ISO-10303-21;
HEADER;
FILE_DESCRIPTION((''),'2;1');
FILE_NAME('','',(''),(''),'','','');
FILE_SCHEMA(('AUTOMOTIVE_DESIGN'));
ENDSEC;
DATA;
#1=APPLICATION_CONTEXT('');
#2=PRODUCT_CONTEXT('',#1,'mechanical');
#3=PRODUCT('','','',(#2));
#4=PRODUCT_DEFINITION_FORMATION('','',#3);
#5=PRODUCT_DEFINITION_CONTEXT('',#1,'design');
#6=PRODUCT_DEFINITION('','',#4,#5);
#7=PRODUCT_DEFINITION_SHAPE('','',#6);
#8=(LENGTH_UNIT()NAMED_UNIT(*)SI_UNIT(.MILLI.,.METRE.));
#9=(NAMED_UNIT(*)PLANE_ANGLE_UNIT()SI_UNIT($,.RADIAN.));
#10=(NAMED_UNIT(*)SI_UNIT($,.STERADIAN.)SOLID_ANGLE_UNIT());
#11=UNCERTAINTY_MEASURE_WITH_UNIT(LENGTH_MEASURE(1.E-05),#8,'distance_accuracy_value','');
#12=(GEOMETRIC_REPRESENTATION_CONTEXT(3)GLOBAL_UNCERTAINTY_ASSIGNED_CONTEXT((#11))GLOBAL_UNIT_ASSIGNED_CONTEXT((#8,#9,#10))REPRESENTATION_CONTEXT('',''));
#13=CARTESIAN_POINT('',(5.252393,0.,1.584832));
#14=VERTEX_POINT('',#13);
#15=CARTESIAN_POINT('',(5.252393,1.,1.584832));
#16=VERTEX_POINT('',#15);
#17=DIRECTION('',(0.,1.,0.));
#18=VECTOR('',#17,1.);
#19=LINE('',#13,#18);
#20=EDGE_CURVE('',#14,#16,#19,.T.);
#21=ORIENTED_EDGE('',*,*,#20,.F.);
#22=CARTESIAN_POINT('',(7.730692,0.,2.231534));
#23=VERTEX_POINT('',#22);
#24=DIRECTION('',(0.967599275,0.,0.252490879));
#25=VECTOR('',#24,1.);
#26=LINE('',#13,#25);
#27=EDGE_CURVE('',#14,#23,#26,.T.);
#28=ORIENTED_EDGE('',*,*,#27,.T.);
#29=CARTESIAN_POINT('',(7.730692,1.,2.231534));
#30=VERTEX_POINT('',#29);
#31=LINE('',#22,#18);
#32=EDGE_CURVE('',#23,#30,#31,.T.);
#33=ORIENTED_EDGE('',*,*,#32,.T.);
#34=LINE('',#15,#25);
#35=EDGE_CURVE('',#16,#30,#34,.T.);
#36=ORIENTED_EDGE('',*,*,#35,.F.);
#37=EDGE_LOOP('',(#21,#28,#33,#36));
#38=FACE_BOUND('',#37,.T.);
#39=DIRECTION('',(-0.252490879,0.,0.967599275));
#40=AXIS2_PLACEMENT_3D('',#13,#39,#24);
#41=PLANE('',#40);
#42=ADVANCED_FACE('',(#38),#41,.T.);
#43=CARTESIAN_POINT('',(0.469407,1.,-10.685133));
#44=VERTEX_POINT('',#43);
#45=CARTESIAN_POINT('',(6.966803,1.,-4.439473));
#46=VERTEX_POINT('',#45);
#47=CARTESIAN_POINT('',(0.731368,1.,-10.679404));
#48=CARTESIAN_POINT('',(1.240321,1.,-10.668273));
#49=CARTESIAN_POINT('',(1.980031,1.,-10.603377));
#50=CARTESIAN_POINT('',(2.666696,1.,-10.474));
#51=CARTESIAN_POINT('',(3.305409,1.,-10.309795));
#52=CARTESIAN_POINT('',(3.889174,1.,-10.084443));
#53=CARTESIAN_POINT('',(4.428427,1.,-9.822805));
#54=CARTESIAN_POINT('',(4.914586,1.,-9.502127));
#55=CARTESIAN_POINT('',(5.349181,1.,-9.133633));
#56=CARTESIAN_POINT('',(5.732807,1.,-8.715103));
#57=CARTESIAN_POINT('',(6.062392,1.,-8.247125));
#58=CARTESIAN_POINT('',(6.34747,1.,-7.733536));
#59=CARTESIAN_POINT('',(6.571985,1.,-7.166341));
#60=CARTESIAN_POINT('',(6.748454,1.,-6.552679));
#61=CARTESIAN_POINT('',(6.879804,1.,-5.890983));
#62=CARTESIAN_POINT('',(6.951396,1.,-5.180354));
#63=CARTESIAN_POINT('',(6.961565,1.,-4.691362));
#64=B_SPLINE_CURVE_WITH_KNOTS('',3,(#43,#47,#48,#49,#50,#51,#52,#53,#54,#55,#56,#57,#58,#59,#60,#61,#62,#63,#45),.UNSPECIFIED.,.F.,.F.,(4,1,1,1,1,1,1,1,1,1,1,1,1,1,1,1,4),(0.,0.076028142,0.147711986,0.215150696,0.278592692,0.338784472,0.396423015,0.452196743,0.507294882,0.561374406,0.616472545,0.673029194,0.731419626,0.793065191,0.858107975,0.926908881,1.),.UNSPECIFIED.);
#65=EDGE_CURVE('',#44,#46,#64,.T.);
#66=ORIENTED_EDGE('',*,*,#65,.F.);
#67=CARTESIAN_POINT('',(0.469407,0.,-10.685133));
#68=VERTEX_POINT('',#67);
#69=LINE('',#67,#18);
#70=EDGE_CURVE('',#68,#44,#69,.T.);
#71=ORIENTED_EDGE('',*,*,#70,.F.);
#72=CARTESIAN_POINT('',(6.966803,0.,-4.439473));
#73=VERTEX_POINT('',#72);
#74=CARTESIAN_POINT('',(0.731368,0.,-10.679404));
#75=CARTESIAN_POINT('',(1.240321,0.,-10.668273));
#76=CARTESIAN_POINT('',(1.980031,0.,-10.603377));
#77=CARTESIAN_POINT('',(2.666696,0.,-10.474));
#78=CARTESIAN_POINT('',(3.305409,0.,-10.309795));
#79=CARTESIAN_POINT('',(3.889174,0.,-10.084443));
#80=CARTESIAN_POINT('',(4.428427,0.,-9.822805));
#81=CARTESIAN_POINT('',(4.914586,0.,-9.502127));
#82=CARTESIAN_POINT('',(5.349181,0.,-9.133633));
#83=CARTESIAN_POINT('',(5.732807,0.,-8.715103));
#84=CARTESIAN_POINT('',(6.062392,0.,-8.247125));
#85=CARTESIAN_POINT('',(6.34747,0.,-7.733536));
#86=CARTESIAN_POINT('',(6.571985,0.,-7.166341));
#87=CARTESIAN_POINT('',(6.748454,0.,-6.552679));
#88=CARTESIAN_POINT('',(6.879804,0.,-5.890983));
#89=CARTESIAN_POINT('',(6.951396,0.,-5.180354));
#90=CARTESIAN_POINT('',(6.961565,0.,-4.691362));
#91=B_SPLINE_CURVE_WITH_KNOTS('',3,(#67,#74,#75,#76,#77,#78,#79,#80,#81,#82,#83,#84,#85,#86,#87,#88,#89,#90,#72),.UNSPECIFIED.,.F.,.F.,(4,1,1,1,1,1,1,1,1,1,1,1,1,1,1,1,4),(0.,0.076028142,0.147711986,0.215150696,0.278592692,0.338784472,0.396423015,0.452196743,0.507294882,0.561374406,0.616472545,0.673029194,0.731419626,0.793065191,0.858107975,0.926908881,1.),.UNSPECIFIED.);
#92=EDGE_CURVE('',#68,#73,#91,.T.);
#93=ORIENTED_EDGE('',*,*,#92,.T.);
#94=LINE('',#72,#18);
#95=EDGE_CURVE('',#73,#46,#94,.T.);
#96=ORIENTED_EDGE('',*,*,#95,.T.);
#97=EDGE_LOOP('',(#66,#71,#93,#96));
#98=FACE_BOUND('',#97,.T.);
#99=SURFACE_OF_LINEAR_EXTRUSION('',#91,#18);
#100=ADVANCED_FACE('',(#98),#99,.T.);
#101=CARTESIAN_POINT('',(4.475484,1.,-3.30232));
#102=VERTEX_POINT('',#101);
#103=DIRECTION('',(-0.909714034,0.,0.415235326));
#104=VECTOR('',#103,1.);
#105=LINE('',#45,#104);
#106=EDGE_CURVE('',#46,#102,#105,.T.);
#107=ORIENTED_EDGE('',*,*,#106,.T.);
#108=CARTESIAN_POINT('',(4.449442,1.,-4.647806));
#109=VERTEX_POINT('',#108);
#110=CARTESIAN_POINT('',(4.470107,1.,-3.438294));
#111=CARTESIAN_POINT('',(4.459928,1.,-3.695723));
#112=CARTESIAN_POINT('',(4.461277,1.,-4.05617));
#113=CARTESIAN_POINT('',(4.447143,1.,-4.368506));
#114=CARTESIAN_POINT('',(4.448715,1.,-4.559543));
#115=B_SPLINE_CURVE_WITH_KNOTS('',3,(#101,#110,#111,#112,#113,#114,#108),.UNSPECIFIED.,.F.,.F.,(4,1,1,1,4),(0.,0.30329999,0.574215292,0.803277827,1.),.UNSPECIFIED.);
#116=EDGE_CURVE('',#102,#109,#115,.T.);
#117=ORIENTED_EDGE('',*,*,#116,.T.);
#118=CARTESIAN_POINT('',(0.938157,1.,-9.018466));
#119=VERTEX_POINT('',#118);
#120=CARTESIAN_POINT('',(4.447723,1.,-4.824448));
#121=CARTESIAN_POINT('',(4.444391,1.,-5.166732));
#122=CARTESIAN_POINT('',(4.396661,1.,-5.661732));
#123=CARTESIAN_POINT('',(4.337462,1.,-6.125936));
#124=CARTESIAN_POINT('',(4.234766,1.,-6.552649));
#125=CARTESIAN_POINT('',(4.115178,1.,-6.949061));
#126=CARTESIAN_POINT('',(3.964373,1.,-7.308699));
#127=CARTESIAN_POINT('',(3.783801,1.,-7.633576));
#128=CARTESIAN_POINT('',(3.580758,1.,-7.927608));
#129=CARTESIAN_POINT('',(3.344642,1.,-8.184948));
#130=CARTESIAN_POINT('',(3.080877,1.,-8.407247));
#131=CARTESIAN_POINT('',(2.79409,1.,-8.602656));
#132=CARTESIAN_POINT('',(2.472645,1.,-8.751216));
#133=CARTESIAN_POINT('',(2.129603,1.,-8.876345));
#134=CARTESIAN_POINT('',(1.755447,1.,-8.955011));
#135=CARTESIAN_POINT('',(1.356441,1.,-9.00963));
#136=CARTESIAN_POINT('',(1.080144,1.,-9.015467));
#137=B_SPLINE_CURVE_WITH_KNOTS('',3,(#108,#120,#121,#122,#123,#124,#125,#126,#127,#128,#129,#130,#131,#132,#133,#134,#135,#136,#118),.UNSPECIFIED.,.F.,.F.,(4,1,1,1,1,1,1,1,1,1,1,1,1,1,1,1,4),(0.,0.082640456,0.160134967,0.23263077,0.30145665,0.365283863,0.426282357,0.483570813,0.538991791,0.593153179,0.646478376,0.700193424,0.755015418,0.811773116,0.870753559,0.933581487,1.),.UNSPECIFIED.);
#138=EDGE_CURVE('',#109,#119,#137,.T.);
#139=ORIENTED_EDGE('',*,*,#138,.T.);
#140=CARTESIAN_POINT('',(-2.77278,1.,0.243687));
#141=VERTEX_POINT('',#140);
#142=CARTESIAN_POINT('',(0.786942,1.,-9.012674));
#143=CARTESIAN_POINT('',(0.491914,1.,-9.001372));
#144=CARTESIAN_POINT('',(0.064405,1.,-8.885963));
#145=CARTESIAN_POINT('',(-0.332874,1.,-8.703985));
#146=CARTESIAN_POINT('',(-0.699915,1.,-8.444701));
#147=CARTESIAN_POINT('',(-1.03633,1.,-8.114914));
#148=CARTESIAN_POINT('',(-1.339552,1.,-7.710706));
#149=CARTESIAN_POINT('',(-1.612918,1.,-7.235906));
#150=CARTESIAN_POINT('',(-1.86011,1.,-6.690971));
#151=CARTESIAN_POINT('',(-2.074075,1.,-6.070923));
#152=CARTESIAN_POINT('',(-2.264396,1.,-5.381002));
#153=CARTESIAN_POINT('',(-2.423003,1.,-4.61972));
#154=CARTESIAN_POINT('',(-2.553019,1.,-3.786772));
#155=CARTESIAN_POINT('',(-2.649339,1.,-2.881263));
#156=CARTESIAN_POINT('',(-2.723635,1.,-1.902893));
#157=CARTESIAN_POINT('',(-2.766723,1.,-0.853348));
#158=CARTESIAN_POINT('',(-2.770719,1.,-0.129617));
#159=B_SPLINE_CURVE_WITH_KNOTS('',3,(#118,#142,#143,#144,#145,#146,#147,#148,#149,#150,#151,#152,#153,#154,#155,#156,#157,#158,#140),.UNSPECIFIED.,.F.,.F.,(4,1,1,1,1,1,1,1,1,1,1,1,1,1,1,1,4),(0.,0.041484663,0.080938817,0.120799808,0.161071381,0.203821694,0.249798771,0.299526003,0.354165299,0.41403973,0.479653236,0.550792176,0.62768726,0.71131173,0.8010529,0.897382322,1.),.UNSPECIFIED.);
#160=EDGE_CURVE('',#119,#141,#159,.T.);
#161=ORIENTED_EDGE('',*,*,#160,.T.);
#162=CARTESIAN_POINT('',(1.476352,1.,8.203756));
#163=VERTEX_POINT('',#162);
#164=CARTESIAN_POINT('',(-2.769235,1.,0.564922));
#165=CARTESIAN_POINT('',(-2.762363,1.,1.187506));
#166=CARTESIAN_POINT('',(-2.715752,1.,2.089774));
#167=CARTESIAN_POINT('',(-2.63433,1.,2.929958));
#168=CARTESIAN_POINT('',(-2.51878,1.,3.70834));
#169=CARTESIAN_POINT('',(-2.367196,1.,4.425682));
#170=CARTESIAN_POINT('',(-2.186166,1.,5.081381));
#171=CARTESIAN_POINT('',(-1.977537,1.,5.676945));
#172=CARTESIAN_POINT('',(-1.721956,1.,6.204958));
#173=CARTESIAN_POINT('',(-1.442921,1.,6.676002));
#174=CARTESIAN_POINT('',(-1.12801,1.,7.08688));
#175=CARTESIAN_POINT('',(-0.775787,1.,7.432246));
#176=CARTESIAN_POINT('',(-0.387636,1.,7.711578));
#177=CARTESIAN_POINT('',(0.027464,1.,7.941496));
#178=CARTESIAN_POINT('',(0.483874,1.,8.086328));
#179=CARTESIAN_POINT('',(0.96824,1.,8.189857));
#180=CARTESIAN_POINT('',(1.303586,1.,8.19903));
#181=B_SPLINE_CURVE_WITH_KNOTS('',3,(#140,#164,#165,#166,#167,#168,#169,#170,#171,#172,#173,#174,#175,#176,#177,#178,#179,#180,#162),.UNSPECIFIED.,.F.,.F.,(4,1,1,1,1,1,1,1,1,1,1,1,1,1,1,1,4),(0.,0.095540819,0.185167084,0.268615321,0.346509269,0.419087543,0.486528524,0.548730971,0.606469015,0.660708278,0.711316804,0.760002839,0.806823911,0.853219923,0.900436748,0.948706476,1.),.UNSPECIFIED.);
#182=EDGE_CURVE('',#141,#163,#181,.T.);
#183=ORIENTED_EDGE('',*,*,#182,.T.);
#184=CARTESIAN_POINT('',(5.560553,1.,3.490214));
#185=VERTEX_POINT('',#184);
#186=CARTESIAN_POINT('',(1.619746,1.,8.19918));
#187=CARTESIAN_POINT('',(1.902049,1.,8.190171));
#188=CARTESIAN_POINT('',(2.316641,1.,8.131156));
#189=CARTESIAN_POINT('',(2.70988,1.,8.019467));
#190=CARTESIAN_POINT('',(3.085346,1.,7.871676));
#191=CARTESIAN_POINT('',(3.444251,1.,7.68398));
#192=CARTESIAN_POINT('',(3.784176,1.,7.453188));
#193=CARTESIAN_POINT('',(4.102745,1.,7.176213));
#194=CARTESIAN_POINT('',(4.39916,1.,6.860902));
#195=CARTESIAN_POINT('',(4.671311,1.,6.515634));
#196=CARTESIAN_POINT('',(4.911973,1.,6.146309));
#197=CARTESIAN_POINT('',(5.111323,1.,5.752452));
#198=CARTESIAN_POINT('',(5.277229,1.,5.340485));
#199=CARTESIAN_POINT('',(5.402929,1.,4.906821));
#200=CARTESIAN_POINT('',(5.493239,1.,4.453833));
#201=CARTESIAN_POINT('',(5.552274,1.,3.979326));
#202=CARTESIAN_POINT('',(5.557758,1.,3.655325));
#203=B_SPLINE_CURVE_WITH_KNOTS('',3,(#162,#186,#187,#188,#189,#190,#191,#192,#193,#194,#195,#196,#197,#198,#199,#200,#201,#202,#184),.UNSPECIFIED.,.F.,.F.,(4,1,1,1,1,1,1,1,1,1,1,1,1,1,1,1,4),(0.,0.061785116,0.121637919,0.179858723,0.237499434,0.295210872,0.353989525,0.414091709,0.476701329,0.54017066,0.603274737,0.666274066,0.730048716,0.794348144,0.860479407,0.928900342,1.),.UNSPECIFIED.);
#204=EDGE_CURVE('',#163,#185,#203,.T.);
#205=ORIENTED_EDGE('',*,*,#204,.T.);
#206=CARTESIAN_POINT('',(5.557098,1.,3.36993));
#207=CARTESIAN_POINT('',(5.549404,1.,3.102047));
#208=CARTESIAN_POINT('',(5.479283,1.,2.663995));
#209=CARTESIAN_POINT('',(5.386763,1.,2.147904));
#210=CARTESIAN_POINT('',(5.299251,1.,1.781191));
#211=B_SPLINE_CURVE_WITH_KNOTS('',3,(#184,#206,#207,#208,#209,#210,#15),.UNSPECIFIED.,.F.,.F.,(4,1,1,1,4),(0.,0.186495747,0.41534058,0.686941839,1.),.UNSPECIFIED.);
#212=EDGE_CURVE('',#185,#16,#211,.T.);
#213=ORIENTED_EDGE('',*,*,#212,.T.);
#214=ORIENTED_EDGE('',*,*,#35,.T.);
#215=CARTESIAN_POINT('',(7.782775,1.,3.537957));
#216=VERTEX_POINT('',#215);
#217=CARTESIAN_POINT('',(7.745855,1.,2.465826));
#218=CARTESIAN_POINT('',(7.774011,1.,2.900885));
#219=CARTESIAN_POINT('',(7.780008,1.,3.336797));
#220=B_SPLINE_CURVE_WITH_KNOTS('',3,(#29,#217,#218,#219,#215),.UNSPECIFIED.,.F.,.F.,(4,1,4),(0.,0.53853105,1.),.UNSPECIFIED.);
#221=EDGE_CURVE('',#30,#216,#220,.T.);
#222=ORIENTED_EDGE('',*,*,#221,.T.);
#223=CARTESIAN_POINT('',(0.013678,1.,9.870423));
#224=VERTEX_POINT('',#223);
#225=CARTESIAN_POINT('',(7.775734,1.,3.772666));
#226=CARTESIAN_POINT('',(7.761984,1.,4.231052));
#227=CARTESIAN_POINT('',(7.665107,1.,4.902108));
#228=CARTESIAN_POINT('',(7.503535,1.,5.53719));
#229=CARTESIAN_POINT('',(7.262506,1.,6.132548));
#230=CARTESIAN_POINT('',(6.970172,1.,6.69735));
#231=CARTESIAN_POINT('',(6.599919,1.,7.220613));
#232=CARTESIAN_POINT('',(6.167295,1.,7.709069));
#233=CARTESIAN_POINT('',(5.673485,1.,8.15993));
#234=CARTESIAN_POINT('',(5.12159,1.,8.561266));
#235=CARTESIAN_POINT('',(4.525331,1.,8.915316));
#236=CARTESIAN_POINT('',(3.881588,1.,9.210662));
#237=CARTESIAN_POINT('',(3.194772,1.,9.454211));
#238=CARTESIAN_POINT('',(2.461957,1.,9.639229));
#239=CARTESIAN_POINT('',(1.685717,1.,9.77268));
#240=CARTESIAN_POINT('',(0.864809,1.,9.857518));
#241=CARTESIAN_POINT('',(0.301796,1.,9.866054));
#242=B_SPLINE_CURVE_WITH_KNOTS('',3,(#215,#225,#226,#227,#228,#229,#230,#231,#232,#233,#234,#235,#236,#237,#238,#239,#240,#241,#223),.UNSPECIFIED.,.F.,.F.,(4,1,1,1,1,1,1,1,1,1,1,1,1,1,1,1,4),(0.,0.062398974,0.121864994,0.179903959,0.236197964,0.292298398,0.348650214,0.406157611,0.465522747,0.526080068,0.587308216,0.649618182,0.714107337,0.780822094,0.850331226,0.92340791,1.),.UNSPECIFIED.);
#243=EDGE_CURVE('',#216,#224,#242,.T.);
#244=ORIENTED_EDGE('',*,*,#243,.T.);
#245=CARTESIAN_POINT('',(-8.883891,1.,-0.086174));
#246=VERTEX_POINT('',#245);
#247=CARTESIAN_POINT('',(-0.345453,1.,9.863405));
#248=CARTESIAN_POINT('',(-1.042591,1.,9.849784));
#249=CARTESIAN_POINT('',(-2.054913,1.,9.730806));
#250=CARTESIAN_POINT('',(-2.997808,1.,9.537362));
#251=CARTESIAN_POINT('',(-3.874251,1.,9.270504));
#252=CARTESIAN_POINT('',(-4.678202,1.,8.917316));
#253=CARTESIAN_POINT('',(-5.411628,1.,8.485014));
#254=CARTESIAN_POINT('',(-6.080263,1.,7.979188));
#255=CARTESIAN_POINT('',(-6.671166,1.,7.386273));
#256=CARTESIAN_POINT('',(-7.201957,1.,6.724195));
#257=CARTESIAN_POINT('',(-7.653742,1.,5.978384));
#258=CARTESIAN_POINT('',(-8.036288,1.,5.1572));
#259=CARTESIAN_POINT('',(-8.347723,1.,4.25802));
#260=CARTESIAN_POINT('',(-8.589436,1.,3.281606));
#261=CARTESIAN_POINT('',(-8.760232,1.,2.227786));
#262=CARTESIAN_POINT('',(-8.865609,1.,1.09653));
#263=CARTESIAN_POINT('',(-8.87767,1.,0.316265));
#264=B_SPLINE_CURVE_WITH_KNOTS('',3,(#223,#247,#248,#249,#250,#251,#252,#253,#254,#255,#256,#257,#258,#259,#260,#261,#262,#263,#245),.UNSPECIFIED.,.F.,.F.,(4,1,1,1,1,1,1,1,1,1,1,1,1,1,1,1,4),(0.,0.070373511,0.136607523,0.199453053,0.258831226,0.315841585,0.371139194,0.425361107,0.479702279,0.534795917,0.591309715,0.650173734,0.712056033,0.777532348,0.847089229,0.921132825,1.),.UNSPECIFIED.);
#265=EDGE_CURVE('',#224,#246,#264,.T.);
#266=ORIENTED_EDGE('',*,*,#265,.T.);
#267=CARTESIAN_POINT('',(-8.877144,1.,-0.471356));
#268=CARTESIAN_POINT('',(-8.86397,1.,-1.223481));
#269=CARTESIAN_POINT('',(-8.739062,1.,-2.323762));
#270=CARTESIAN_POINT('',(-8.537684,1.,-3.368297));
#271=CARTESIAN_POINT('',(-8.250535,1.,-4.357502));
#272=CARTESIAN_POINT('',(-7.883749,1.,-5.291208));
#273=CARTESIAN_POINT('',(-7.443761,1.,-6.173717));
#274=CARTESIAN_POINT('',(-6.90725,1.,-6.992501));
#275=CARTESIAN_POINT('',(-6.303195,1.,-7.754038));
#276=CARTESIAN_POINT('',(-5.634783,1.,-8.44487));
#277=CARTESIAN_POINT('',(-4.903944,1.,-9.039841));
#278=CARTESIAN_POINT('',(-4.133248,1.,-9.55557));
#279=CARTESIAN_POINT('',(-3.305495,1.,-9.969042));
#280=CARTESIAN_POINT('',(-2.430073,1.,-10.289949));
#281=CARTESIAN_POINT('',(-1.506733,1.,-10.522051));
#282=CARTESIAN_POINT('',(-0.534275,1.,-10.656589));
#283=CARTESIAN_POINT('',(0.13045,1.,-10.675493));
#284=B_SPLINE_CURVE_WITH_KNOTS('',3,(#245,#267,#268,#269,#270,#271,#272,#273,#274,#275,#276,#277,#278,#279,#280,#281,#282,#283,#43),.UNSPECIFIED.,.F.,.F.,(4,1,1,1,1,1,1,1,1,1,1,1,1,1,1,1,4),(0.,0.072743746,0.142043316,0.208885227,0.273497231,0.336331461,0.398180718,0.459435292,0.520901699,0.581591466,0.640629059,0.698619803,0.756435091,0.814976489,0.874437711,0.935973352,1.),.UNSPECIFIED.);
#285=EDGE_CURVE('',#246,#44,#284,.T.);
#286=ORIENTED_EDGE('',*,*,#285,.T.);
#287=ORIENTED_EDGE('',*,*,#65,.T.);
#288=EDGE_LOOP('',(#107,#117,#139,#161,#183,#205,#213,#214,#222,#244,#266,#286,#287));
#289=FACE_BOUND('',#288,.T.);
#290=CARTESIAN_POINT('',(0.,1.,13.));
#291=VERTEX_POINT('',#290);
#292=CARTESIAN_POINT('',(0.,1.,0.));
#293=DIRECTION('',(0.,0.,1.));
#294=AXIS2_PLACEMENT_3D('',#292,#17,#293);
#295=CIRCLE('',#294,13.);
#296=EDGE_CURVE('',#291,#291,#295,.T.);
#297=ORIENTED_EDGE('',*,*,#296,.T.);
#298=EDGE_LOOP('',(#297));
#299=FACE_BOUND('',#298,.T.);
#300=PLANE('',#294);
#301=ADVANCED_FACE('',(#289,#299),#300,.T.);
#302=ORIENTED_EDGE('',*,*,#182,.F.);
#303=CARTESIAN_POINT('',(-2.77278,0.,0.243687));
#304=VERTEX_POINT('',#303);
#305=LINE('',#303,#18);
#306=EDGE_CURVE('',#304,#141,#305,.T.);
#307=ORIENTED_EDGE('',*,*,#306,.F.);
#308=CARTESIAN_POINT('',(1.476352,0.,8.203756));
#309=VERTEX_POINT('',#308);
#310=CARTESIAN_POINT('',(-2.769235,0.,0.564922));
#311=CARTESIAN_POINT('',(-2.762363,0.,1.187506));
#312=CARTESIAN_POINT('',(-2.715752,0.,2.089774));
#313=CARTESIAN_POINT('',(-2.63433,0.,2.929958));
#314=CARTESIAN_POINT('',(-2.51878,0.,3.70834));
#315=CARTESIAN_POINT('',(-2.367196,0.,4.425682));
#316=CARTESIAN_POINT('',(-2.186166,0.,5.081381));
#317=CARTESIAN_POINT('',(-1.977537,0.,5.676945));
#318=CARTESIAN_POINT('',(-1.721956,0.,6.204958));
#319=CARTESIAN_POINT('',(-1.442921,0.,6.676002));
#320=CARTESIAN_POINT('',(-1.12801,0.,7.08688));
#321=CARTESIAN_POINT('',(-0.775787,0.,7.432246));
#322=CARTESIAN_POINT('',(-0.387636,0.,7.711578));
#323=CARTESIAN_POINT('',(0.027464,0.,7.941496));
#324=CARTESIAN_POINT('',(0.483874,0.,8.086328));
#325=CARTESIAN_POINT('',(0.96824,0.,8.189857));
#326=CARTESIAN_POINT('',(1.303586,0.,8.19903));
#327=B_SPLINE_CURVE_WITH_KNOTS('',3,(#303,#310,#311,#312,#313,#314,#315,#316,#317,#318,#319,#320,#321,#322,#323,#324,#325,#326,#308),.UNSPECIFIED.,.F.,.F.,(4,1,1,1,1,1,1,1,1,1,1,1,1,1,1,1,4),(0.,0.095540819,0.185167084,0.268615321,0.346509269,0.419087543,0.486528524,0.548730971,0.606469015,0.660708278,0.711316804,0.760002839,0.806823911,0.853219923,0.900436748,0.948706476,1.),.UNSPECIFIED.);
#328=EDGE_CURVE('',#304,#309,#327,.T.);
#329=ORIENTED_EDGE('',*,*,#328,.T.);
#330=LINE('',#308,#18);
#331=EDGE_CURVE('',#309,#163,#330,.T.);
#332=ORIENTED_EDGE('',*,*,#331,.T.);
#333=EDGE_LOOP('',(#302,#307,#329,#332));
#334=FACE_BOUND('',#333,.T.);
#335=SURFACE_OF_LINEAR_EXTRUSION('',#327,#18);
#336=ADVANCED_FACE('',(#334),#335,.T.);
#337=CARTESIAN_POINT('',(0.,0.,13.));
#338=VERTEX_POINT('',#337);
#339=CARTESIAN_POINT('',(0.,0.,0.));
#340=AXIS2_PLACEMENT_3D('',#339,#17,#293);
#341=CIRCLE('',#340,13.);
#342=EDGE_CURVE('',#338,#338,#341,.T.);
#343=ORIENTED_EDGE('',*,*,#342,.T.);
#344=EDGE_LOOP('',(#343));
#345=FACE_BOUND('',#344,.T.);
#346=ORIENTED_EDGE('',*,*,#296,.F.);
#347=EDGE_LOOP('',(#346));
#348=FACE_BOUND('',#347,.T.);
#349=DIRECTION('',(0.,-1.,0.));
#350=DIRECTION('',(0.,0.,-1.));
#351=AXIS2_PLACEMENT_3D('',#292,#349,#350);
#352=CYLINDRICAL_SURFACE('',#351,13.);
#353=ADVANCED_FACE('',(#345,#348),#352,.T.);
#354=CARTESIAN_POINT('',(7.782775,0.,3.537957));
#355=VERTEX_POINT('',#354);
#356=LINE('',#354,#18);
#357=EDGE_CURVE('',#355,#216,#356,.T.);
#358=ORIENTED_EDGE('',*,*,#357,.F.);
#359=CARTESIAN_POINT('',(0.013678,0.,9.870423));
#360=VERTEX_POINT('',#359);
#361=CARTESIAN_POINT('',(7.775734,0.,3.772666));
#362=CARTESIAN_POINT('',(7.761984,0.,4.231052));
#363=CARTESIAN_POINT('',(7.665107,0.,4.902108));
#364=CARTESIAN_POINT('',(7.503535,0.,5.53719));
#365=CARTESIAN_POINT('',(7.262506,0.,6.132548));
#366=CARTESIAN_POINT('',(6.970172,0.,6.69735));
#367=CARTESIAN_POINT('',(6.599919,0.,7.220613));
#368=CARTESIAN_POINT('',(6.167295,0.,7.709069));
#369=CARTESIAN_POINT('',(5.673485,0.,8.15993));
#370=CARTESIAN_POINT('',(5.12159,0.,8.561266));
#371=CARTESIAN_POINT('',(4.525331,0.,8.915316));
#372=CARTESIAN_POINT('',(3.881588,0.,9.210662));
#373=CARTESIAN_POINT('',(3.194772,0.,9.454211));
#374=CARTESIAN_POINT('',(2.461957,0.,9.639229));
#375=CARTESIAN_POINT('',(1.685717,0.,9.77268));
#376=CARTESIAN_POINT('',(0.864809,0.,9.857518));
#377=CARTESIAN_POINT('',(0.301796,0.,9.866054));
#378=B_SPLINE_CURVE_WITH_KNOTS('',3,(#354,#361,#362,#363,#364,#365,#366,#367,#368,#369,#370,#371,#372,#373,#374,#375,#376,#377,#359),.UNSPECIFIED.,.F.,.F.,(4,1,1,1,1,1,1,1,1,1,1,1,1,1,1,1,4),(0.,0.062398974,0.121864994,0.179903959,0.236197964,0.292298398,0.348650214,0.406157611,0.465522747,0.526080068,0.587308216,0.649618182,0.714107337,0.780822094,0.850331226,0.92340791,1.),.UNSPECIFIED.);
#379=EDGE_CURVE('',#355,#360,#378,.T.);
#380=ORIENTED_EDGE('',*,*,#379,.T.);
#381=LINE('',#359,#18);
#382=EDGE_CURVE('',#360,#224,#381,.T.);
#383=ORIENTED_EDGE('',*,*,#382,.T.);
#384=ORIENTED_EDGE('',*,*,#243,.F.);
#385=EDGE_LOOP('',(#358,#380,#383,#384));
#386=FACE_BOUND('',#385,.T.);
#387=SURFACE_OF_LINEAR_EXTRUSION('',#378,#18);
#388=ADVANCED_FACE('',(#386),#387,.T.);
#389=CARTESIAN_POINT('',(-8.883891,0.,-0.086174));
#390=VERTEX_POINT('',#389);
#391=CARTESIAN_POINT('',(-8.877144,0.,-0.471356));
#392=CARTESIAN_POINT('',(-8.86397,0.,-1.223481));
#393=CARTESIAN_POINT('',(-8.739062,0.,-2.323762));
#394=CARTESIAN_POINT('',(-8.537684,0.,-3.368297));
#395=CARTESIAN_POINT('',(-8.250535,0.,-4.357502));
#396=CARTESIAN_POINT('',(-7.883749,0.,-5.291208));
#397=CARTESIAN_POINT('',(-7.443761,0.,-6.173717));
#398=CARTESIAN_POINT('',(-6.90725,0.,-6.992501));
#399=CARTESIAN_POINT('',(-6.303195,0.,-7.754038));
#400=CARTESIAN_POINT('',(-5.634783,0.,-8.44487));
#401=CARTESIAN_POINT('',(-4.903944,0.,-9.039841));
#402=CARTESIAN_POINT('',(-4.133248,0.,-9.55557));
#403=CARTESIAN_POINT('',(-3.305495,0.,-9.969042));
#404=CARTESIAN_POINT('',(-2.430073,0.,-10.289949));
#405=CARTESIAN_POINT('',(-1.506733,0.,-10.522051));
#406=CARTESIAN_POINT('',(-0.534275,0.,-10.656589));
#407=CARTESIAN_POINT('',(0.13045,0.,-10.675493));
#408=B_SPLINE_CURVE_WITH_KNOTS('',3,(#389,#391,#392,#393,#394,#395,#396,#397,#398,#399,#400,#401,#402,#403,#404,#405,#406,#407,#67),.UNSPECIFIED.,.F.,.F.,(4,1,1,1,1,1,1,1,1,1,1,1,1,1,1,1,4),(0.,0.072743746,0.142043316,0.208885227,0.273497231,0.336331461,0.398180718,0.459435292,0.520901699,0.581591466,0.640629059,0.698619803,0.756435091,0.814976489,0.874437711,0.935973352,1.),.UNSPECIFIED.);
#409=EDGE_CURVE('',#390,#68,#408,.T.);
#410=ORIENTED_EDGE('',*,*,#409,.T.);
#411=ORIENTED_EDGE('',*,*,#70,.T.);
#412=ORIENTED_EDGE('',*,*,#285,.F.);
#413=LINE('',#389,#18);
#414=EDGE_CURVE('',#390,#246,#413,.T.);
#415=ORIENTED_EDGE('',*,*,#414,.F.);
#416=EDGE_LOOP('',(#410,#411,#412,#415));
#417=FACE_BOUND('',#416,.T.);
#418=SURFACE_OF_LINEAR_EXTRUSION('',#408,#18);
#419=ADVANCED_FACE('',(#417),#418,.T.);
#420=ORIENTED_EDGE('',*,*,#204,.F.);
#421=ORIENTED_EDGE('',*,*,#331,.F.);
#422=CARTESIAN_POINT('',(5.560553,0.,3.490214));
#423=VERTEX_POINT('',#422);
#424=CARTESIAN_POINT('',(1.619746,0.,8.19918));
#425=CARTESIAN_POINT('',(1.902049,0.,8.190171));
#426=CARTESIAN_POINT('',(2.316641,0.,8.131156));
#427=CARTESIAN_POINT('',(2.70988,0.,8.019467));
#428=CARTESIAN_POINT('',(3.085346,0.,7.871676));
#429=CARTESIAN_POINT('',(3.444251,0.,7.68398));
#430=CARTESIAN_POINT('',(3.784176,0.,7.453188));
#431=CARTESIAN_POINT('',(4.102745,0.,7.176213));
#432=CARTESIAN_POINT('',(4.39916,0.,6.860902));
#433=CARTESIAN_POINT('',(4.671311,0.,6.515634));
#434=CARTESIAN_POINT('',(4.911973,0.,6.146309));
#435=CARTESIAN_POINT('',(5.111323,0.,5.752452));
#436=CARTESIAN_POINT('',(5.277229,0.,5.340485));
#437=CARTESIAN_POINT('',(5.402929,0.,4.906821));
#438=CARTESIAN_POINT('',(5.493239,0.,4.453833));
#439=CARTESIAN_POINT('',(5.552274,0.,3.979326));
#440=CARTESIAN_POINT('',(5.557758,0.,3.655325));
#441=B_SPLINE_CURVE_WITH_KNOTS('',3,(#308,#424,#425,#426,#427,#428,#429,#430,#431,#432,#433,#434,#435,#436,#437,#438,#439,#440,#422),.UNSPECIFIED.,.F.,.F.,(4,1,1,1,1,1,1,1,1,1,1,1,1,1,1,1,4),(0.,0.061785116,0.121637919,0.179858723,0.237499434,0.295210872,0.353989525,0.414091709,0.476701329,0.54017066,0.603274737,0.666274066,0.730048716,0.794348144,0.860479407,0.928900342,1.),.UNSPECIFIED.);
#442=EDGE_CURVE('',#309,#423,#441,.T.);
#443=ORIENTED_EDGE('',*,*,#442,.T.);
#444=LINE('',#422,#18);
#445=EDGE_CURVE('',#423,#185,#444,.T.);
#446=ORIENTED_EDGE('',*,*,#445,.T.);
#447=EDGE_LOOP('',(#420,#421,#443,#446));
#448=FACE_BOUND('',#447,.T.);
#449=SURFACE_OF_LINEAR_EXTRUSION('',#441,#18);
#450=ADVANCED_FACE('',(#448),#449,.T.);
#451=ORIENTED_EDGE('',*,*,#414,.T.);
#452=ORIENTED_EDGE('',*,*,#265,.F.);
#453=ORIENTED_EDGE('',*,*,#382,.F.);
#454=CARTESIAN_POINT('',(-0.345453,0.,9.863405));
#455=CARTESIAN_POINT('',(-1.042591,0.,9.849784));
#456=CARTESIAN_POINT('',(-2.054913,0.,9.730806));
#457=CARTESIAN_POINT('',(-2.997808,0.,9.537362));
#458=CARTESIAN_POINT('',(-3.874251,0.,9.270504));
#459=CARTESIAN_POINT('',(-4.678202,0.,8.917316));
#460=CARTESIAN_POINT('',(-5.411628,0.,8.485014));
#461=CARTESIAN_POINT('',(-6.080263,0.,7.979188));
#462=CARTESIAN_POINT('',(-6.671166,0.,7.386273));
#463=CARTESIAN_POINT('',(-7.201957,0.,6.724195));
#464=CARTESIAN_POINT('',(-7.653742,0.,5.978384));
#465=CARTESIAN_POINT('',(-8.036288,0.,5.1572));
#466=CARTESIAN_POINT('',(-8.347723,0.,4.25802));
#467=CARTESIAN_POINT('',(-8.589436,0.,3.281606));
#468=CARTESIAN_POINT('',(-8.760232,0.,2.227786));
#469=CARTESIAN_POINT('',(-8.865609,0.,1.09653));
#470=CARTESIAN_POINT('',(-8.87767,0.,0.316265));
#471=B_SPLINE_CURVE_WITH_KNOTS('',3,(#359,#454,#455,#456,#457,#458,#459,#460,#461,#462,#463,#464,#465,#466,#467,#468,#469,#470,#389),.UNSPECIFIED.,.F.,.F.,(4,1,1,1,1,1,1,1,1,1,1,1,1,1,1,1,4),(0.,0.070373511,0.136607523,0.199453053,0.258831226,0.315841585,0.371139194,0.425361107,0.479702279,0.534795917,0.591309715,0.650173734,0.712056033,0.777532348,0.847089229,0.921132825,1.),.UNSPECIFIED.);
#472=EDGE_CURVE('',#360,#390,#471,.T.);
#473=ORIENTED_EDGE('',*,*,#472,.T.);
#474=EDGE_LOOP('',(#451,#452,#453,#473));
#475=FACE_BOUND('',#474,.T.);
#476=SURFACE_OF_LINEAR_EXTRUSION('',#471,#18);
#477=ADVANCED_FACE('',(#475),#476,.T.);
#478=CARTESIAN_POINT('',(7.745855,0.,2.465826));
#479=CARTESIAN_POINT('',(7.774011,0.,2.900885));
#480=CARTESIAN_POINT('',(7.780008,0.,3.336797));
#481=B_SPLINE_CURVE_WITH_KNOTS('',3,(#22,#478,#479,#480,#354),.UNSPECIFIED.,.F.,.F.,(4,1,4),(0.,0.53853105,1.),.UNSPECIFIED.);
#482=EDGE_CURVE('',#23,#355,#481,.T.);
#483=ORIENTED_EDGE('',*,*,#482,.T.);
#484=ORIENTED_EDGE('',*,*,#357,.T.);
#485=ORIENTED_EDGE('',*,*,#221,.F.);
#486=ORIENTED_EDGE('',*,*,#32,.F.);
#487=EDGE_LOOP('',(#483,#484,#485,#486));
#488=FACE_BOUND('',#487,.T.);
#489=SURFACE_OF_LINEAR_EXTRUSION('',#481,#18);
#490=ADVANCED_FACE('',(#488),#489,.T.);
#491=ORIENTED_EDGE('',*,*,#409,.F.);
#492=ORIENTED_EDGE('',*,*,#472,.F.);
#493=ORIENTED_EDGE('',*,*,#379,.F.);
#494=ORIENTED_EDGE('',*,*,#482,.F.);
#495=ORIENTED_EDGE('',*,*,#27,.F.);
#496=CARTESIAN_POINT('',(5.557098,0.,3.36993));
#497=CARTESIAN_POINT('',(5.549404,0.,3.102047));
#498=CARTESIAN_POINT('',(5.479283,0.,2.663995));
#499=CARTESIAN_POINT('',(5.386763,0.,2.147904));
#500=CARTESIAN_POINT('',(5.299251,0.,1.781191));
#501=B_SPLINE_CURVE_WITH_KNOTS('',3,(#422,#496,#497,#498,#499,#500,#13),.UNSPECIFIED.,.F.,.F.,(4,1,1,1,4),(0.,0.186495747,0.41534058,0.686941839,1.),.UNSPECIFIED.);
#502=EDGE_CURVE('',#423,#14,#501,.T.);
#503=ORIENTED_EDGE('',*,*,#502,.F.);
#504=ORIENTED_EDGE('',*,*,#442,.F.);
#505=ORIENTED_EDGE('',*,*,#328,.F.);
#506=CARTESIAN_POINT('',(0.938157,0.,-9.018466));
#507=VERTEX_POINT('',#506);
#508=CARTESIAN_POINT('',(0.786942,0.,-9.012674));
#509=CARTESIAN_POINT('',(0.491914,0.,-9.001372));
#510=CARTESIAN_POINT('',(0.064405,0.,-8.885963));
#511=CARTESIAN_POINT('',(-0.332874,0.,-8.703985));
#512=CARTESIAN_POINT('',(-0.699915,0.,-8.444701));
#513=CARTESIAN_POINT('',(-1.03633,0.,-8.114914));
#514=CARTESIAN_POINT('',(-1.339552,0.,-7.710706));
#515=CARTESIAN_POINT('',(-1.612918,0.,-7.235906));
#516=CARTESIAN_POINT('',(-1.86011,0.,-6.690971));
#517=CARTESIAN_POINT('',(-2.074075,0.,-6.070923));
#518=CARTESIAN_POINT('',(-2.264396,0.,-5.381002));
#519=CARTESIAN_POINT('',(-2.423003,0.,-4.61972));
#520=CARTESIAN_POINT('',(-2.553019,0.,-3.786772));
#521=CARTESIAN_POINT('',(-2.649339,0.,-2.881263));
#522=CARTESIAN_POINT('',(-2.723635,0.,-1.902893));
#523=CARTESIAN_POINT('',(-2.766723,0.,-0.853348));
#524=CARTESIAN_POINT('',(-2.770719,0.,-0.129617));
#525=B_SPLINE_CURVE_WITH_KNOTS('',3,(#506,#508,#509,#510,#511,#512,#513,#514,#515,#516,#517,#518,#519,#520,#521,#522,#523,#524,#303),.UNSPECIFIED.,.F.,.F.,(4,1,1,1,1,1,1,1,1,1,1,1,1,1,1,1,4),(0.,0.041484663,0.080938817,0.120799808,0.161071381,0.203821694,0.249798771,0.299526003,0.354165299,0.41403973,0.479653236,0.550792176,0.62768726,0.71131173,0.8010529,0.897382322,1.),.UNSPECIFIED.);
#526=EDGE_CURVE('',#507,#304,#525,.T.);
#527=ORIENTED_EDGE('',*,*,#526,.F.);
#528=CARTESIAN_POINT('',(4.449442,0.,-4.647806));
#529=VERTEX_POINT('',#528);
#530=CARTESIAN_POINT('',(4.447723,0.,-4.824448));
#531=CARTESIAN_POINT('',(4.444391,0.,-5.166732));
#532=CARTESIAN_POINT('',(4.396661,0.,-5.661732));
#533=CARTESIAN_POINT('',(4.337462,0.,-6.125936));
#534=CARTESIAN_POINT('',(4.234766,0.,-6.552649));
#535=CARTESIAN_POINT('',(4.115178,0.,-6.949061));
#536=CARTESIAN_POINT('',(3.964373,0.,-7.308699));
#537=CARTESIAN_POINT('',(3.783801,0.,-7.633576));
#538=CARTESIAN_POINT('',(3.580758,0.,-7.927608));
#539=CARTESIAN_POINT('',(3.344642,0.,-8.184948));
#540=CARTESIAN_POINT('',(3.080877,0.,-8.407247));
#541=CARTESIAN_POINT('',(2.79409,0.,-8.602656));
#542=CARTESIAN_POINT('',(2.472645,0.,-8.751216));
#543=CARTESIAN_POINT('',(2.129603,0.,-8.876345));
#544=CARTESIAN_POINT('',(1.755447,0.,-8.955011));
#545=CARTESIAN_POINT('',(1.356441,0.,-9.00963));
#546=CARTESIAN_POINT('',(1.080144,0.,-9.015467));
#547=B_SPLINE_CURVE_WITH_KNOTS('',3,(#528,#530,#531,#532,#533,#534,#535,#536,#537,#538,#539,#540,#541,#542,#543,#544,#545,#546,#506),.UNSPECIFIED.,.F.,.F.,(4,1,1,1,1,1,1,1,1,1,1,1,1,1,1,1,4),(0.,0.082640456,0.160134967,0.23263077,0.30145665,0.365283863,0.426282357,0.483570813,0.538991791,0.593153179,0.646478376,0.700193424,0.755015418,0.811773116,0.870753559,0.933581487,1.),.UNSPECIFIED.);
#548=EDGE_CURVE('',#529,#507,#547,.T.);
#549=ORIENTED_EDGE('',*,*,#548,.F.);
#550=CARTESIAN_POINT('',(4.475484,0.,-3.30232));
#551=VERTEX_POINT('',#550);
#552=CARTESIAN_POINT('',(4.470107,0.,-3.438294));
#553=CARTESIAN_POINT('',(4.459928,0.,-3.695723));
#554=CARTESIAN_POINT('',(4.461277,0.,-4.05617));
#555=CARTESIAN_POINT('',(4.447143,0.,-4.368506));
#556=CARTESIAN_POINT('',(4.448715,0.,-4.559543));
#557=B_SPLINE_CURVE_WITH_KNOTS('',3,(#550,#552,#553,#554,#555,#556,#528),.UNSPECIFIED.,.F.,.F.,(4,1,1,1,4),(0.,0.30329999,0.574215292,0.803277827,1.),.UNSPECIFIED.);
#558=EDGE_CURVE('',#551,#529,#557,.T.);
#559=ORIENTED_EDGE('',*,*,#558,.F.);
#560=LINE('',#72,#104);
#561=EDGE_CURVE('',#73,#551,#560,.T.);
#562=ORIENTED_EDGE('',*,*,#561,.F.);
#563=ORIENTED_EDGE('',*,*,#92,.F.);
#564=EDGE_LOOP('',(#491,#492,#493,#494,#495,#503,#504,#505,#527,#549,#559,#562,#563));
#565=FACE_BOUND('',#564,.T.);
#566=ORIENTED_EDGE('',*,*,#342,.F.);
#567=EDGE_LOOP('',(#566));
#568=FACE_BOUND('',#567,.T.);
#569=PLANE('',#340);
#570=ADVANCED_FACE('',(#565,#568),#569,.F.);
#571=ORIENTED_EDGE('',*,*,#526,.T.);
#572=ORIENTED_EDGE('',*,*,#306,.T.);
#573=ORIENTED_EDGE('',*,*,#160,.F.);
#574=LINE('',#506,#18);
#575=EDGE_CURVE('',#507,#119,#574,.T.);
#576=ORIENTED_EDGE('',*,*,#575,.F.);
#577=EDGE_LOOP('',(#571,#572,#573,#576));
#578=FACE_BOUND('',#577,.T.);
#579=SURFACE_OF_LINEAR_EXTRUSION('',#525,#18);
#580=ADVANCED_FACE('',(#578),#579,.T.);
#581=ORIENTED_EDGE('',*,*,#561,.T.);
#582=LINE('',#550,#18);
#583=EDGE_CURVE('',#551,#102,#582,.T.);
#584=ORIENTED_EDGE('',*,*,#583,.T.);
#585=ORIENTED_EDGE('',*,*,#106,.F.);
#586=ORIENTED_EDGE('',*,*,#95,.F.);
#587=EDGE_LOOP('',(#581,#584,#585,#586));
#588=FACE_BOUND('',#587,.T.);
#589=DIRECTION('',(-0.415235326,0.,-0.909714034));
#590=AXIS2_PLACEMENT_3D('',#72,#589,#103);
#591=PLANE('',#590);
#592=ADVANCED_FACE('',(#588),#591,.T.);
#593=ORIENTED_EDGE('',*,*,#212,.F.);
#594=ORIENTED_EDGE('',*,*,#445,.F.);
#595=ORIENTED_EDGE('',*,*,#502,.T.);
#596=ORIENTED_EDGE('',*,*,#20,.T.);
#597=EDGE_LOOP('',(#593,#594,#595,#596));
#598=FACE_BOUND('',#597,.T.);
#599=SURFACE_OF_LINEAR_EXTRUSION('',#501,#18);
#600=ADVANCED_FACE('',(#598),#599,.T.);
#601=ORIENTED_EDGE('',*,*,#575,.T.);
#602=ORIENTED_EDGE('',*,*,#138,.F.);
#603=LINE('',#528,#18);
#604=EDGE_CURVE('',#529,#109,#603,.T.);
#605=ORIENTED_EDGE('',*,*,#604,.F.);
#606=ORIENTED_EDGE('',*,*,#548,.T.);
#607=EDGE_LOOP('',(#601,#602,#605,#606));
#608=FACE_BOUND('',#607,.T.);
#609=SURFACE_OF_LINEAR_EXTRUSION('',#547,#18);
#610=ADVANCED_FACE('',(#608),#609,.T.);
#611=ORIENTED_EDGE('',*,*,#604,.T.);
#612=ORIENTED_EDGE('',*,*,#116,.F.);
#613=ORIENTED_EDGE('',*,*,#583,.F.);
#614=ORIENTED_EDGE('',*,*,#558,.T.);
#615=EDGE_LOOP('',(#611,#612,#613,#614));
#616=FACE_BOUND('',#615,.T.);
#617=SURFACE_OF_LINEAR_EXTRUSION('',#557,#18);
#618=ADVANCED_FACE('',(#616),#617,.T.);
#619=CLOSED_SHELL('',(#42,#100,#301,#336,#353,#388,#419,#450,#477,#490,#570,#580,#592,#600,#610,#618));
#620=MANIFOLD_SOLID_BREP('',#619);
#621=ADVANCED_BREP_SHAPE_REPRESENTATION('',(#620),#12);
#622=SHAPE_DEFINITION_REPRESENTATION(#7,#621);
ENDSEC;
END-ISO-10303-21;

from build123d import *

# Parameters (mm, degrees)
SKETCH1_R           = 13
BOSS_EXTRUDE1_DEPTH = 1
CUT_EXTRUDE1_DEPTH  = 1


with BuildPart() as part:
    # Sketch1 → Boss-Extrude1 (new body)
    with BuildSketch(Plane(origin=(0, 0, 0), x_dir=(1, 0, 0), z_dir=(0, 1, 0))):
        with Locations(Location((0, 0, 0), (0, 0, 270))):
            Circle(SKETCH1_R)
    extrude(amount=BOSS_EXTRUDE1_DEPTH)

    # Sketch2 → Cut-Extrude1 (cut)
    with BuildSketch(Plane(origin=(0, 1, 0), x_dir=(1, 0, 0), z_dir=(0, 1, 0))):
        with BuildLine():
            Line((5.25239325, -1.5848325), (7.730691862, -2.231533889))
            add(Edge.make_bspline(
                [(7.730691862, -2.231533889), (7.745854907, -2.465826289), (7.774011213, -2.900884585), (7.780007907, -3.336797312), (7.782775195, -3.5379575)],
                knots=[0, 0, 0, 0, 1.077062099, 2, 2, 2, 2], degree=3))
            add(Edge.make_bspline(
                [(7.782775195, -3.5379575), (7.775734441, -3.772666286), (7.76198387, -4.231051786), (7.665106789, -4.902107863), (7.503534805, -5.53719048), (7.262506376, -6.13254792), (6.970171749, -6.697349561), (6.599918526, -7.220612544), (6.167294917, -7.709069047), (5.673484979, -8.159929958), (5.121589843, -8.561266158), (4.525330961, -8.915315997), (3.88158819, -9.210662332), (3.194771896, -9.454210567), (2.461957382, -9.639228793), (1.685716726, -9.772679799), (0.864809488, -9.857517539), (0.301796476, -9.866054195), (0.013677973, -9.870422778)],
                knots=[0, 0, 0, 0, 0.99838358, 1.9498399, 2.87846334, 3.779167422, 4.676774372, 5.578403417, 6.498521769, 7.448363946, 8.417281084, 9.396931457, 10.393890904, 11.425717394, 12.493153504, 13.605299621, 14.774526564, 16, 16, 16, 16], degree=3))
            add(Edge.make_bspline(
                [(0.013677973, -9.870422778), (-0.345453387, -9.863405493), (-1.042591343, -9.849783693), (-2.054913482, -9.730806098), (-2.997808304, -9.537362324), (-3.874251245, -9.270503592), (-4.678201905, -8.917315993), (-5.411628354, -8.48501399), (-6.080262751, -7.979187866), (-6.671165693, -7.386273411), (-7.201957369, -6.724194549), (-7.653742039, -5.97838427), (-8.036288232, -5.157199578), (-8.347723272, -4.258020447), (-8.589436148, -3.28160554), (-8.760231838, -2.227786178), (-8.865609009, -1.096529571), (-8.877670491, -0.316264728), (-8.883891472, 0.086174444)],
                knots=[0, 0, 0, 0, 1.125976169, 2.185720361, 3.191248848, 4.14129961, 5.053465363, 5.93822711, 6.80577772, 7.675236456, 8.556734678, 9.460955445, 10.40277975, 11.392896532, 12.440517575, 13.553427658, 14.738125192, 16, 16, 16, 16], degree=3))
            add(Edge.make_bspline(
                [(-8.883891472, 0.086174444), (-8.877144448, 0.471355807), (-8.86396985, 1.223481467), (-8.739062258, 2.323761593), (-8.537683843, 3.368297285), (-8.25053484, 4.357501558), (-7.88374945, 5.291207721), (-7.443760547, 6.173716613), (-6.907249974, 6.992501414), (-6.303194776, 7.754037533), (-5.634782916, 8.444869562), (-4.903943631, 9.039841274), (-4.13324793, 9.555570007), (-3.305494781, 9.969042017), (-2.430073405, 10.289949015), (-1.506733392, 10.522051081), (-0.534275431, 10.656589456), (0.130450492, 10.675493327), (0.469407139, 10.685132778)],
                knots=[0, 0, 0, 0, 1.163899941, 2.272693063, 3.342163629, 4.375955692, 5.38130337, 6.37089149, 7.350964679, 8.334427181, 9.30546345, 10.250064938, 11.177916844, 12.10296145, 13.039623816, 13.99100338, 14.975573636, 16, 16, 16, 16], degree=3))
            add(Edge.make_bspline(
                [(0.469407139, 10.685132778), (0.731368093, 10.679403838), (1.24032138, 10.668273314), (1.980031414, 10.603376578), (2.666696134, 10.474000255), (3.305409253, 10.309794879), (3.889173706, 10.08444307), (4.428427211, 9.822804709), (4.914586315, 9.502127233), (5.349181396, 9.133633154), (5.732807037, 8.715102812), (6.062391941, 8.247124839), (6.347469876, 7.733536448), (6.571984508, 7.166341162), (6.748453612, 6.552678606), (6.879804132, 5.890982879), (6.951396325, 5.180354064), (6.961564938, 4.691361745), (6.966802973, 4.439473056)],
                knots=[0, 0, 0, 0, 1.216450272, 2.363391781, 3.442411128, 4.457483076, 5.420551553, 6.342768242, 7.235147886, 8.116718114, 8.981990498, 9.863560726, 10.768467107, 11.70271401, 12.689043052, 13.729727606, 14.830542089, 16, 16, 16, 16], degree=3))
            Line((6.966802973, 4.439473056), (4.475483528, 3.302320278))
            add(Edge.make_bspline(
                [(4.475483528, 3.302320278), (4.470106952, 3.438293944), (4.45992788, 3.695722764), (4.461276647, 4.056170034), (4.447142903, 4.368506474), (4.448715354, 4.55954313), (4.449441862, 4.647806389)],
                knots=[0, 0, 0, 0, 1.21319996, 2.296861169, 3.213111309, 4, 4, 4, 4], degree=3))
            add(Edge.make_bspline(
                [(4.449441862, 4.647806389), (4.447722623, 4.824448026), (4.444391201, 5.166731988), (4.396660933, 5.661731695), (4.337462463, 6.125936258), (4.234766253, 6.552649254), (4.115177918, 6.949061221), (3.964373313, 7.308698933), (3.783801492, 7.63357582), (3.580758496, 7.927608424), (3.344642243, 8.184947546), (3.080877209, 8.407247168), (2.794090455, 8.602656301), (2.472644536, 8.751215907), (2.129602996, 8.876345015), (1.755447324, 8.955010862), (1.356440833, 9.009630083), (1.080143634, 9.015466719), (0.938157139, 9.018466111)],
                knots=[0, 0, 0, 0, 1.322247294, 2.562159472, 3.722092324, 4.823306397, 5.844541812, 6.820517713, 7.73713301, 8.62386865, 9.490450857, 10.343654022, 11.203094787, 12.080246692, 12.988369862, 13.932056947, 14.937303798, 16, 16, 16, 16], degree=3))
            add(Edge.make_bspline(
                [(0.938157139, 9.018466111), (0.786942196, 9.012673682), (0.491913679, 9.001372339), (0.064405318, 8.885963451), (-0.332873883, 8.703985183), (-0.69991465, 8.444701136), (-1.036329743, 8.114914494), (-1.33955244, 7.710706144), (-1.612917553, 7.235906282), (-1.860109833, 6.690970947), (-2.074074797, 6.070923113), (-2.264395958, 5.381001791), (-2.423002996, 4.619720467), (-2.553018757, 3.7867718), (-2.649338988, 2.881263355), (-2.723635136, 1.902892729), (-2.766722621, 0.853348432), (-2.770719009, 0.129616858), (-2.772780361, -0.243686667)],
                knots=[0, 0, 0, 0, 0.663754609, 1.295021072, 1.932796925, 2.5771421, 3.261147111, 3.996780335, 4.792416042, 5.666644777, 6.624635675, 7.674451774, 8.812674813, 10.04299616, 11.380987675, 12.816846398, 14.358117152, 16, 16, 16, 16], degree=3))
            add(Edge.make_bspline(
                [(-2.772780361, -0.243686667), (-2.769234908, -0.564921798), (-2.762363487, -1.187505667), (-2.715752199, -2.089773852), (-2.634330422, -2.929957842), (-2.518780135, -3.708339901), (-2.367195765, -4.425682347), (-2.18616641, -5.08138104), (-1.977536957, -5.676945191), (-1.721955983, -6.20495828), (-1.442920917, -6.676002474), (-1.128010362, -7.08687999), (-0.775787049, -7.432245929), (-0.387635905, -7.711578053), (0.02746432, -7.94149635), (0.483873953, -8.086328054), (0.968240334, -8.189856946), (1.303586281, -8.199030191), (1.476351584, -8.203756111)],
                knots=[0, 0, 0, 0, 1.528653098, 2.962673341, 4.297845131, 5.544148307, 6.705400685, 7.784456391, 8.779695543, 9.703504234, 10.571332445, 11.381068858, 12.160045423, 12.90918257, 13.651518771, 14.406987965, 15.179303616, 16, 16, 16, 16], degree=3))
            add(Edge.make_bspline(
                [(1.476351584, -8.203756111), (1.61974551, -8.199179957), (1.902048757, -8.190170766), (2.316640973, -8.13115633), (2.709880212, -8.019466978), (3.085346323, -7.871676439), (3.444251194, -7.683979914), (3.784176044, -7.453188362), (4.102744826, -7.17621313), (4.399160241, -6.860901751), (4.671310822, -6.515633609), (4.911973057, -6.146309401), (5.111323132, -5.752451865), (5.277229417, -5.340485015), (5.402928553, -4.906821297), (5.493239479, -4.453833285), (5.552273744, -3.979325579), (5.557758131, -3.655325036), (5.560552973, -3.490214444)],
                knots=[0, 0, 0, 0, 0.988561849, 1.946206698, 2.877739568, 3.799990945, 4.723373952, 5.6638324, 6.625467346, 7.627221263, 8.642730559, 9.652395785, 10.660385053, 11.680779451, 12.709570302, 13.767670509, 14.862405475, 16, 16, 16, 16], degree=3))
            add(Edge.make_bspline(
                [(5.560552973, -3.490214444), (5.557098155, -3.369930029), (5.549404006, -3.102047251), (5.479283066, -2.663994986), (5.38676253, -2.147904033), (5.299251417, -1.781190622), (5.25239325, -1.5848325)],
                knots=[0, 0, 0, 0, 0.745982987, 1.661362321, 2.747767356, 4, 4, 4, 4], degree=3))
        make_face()
    extrude(amount=-CUT_EXTRUDE1_DEPTH, mode=Mode.SUBTRACT)


solid = part.part
